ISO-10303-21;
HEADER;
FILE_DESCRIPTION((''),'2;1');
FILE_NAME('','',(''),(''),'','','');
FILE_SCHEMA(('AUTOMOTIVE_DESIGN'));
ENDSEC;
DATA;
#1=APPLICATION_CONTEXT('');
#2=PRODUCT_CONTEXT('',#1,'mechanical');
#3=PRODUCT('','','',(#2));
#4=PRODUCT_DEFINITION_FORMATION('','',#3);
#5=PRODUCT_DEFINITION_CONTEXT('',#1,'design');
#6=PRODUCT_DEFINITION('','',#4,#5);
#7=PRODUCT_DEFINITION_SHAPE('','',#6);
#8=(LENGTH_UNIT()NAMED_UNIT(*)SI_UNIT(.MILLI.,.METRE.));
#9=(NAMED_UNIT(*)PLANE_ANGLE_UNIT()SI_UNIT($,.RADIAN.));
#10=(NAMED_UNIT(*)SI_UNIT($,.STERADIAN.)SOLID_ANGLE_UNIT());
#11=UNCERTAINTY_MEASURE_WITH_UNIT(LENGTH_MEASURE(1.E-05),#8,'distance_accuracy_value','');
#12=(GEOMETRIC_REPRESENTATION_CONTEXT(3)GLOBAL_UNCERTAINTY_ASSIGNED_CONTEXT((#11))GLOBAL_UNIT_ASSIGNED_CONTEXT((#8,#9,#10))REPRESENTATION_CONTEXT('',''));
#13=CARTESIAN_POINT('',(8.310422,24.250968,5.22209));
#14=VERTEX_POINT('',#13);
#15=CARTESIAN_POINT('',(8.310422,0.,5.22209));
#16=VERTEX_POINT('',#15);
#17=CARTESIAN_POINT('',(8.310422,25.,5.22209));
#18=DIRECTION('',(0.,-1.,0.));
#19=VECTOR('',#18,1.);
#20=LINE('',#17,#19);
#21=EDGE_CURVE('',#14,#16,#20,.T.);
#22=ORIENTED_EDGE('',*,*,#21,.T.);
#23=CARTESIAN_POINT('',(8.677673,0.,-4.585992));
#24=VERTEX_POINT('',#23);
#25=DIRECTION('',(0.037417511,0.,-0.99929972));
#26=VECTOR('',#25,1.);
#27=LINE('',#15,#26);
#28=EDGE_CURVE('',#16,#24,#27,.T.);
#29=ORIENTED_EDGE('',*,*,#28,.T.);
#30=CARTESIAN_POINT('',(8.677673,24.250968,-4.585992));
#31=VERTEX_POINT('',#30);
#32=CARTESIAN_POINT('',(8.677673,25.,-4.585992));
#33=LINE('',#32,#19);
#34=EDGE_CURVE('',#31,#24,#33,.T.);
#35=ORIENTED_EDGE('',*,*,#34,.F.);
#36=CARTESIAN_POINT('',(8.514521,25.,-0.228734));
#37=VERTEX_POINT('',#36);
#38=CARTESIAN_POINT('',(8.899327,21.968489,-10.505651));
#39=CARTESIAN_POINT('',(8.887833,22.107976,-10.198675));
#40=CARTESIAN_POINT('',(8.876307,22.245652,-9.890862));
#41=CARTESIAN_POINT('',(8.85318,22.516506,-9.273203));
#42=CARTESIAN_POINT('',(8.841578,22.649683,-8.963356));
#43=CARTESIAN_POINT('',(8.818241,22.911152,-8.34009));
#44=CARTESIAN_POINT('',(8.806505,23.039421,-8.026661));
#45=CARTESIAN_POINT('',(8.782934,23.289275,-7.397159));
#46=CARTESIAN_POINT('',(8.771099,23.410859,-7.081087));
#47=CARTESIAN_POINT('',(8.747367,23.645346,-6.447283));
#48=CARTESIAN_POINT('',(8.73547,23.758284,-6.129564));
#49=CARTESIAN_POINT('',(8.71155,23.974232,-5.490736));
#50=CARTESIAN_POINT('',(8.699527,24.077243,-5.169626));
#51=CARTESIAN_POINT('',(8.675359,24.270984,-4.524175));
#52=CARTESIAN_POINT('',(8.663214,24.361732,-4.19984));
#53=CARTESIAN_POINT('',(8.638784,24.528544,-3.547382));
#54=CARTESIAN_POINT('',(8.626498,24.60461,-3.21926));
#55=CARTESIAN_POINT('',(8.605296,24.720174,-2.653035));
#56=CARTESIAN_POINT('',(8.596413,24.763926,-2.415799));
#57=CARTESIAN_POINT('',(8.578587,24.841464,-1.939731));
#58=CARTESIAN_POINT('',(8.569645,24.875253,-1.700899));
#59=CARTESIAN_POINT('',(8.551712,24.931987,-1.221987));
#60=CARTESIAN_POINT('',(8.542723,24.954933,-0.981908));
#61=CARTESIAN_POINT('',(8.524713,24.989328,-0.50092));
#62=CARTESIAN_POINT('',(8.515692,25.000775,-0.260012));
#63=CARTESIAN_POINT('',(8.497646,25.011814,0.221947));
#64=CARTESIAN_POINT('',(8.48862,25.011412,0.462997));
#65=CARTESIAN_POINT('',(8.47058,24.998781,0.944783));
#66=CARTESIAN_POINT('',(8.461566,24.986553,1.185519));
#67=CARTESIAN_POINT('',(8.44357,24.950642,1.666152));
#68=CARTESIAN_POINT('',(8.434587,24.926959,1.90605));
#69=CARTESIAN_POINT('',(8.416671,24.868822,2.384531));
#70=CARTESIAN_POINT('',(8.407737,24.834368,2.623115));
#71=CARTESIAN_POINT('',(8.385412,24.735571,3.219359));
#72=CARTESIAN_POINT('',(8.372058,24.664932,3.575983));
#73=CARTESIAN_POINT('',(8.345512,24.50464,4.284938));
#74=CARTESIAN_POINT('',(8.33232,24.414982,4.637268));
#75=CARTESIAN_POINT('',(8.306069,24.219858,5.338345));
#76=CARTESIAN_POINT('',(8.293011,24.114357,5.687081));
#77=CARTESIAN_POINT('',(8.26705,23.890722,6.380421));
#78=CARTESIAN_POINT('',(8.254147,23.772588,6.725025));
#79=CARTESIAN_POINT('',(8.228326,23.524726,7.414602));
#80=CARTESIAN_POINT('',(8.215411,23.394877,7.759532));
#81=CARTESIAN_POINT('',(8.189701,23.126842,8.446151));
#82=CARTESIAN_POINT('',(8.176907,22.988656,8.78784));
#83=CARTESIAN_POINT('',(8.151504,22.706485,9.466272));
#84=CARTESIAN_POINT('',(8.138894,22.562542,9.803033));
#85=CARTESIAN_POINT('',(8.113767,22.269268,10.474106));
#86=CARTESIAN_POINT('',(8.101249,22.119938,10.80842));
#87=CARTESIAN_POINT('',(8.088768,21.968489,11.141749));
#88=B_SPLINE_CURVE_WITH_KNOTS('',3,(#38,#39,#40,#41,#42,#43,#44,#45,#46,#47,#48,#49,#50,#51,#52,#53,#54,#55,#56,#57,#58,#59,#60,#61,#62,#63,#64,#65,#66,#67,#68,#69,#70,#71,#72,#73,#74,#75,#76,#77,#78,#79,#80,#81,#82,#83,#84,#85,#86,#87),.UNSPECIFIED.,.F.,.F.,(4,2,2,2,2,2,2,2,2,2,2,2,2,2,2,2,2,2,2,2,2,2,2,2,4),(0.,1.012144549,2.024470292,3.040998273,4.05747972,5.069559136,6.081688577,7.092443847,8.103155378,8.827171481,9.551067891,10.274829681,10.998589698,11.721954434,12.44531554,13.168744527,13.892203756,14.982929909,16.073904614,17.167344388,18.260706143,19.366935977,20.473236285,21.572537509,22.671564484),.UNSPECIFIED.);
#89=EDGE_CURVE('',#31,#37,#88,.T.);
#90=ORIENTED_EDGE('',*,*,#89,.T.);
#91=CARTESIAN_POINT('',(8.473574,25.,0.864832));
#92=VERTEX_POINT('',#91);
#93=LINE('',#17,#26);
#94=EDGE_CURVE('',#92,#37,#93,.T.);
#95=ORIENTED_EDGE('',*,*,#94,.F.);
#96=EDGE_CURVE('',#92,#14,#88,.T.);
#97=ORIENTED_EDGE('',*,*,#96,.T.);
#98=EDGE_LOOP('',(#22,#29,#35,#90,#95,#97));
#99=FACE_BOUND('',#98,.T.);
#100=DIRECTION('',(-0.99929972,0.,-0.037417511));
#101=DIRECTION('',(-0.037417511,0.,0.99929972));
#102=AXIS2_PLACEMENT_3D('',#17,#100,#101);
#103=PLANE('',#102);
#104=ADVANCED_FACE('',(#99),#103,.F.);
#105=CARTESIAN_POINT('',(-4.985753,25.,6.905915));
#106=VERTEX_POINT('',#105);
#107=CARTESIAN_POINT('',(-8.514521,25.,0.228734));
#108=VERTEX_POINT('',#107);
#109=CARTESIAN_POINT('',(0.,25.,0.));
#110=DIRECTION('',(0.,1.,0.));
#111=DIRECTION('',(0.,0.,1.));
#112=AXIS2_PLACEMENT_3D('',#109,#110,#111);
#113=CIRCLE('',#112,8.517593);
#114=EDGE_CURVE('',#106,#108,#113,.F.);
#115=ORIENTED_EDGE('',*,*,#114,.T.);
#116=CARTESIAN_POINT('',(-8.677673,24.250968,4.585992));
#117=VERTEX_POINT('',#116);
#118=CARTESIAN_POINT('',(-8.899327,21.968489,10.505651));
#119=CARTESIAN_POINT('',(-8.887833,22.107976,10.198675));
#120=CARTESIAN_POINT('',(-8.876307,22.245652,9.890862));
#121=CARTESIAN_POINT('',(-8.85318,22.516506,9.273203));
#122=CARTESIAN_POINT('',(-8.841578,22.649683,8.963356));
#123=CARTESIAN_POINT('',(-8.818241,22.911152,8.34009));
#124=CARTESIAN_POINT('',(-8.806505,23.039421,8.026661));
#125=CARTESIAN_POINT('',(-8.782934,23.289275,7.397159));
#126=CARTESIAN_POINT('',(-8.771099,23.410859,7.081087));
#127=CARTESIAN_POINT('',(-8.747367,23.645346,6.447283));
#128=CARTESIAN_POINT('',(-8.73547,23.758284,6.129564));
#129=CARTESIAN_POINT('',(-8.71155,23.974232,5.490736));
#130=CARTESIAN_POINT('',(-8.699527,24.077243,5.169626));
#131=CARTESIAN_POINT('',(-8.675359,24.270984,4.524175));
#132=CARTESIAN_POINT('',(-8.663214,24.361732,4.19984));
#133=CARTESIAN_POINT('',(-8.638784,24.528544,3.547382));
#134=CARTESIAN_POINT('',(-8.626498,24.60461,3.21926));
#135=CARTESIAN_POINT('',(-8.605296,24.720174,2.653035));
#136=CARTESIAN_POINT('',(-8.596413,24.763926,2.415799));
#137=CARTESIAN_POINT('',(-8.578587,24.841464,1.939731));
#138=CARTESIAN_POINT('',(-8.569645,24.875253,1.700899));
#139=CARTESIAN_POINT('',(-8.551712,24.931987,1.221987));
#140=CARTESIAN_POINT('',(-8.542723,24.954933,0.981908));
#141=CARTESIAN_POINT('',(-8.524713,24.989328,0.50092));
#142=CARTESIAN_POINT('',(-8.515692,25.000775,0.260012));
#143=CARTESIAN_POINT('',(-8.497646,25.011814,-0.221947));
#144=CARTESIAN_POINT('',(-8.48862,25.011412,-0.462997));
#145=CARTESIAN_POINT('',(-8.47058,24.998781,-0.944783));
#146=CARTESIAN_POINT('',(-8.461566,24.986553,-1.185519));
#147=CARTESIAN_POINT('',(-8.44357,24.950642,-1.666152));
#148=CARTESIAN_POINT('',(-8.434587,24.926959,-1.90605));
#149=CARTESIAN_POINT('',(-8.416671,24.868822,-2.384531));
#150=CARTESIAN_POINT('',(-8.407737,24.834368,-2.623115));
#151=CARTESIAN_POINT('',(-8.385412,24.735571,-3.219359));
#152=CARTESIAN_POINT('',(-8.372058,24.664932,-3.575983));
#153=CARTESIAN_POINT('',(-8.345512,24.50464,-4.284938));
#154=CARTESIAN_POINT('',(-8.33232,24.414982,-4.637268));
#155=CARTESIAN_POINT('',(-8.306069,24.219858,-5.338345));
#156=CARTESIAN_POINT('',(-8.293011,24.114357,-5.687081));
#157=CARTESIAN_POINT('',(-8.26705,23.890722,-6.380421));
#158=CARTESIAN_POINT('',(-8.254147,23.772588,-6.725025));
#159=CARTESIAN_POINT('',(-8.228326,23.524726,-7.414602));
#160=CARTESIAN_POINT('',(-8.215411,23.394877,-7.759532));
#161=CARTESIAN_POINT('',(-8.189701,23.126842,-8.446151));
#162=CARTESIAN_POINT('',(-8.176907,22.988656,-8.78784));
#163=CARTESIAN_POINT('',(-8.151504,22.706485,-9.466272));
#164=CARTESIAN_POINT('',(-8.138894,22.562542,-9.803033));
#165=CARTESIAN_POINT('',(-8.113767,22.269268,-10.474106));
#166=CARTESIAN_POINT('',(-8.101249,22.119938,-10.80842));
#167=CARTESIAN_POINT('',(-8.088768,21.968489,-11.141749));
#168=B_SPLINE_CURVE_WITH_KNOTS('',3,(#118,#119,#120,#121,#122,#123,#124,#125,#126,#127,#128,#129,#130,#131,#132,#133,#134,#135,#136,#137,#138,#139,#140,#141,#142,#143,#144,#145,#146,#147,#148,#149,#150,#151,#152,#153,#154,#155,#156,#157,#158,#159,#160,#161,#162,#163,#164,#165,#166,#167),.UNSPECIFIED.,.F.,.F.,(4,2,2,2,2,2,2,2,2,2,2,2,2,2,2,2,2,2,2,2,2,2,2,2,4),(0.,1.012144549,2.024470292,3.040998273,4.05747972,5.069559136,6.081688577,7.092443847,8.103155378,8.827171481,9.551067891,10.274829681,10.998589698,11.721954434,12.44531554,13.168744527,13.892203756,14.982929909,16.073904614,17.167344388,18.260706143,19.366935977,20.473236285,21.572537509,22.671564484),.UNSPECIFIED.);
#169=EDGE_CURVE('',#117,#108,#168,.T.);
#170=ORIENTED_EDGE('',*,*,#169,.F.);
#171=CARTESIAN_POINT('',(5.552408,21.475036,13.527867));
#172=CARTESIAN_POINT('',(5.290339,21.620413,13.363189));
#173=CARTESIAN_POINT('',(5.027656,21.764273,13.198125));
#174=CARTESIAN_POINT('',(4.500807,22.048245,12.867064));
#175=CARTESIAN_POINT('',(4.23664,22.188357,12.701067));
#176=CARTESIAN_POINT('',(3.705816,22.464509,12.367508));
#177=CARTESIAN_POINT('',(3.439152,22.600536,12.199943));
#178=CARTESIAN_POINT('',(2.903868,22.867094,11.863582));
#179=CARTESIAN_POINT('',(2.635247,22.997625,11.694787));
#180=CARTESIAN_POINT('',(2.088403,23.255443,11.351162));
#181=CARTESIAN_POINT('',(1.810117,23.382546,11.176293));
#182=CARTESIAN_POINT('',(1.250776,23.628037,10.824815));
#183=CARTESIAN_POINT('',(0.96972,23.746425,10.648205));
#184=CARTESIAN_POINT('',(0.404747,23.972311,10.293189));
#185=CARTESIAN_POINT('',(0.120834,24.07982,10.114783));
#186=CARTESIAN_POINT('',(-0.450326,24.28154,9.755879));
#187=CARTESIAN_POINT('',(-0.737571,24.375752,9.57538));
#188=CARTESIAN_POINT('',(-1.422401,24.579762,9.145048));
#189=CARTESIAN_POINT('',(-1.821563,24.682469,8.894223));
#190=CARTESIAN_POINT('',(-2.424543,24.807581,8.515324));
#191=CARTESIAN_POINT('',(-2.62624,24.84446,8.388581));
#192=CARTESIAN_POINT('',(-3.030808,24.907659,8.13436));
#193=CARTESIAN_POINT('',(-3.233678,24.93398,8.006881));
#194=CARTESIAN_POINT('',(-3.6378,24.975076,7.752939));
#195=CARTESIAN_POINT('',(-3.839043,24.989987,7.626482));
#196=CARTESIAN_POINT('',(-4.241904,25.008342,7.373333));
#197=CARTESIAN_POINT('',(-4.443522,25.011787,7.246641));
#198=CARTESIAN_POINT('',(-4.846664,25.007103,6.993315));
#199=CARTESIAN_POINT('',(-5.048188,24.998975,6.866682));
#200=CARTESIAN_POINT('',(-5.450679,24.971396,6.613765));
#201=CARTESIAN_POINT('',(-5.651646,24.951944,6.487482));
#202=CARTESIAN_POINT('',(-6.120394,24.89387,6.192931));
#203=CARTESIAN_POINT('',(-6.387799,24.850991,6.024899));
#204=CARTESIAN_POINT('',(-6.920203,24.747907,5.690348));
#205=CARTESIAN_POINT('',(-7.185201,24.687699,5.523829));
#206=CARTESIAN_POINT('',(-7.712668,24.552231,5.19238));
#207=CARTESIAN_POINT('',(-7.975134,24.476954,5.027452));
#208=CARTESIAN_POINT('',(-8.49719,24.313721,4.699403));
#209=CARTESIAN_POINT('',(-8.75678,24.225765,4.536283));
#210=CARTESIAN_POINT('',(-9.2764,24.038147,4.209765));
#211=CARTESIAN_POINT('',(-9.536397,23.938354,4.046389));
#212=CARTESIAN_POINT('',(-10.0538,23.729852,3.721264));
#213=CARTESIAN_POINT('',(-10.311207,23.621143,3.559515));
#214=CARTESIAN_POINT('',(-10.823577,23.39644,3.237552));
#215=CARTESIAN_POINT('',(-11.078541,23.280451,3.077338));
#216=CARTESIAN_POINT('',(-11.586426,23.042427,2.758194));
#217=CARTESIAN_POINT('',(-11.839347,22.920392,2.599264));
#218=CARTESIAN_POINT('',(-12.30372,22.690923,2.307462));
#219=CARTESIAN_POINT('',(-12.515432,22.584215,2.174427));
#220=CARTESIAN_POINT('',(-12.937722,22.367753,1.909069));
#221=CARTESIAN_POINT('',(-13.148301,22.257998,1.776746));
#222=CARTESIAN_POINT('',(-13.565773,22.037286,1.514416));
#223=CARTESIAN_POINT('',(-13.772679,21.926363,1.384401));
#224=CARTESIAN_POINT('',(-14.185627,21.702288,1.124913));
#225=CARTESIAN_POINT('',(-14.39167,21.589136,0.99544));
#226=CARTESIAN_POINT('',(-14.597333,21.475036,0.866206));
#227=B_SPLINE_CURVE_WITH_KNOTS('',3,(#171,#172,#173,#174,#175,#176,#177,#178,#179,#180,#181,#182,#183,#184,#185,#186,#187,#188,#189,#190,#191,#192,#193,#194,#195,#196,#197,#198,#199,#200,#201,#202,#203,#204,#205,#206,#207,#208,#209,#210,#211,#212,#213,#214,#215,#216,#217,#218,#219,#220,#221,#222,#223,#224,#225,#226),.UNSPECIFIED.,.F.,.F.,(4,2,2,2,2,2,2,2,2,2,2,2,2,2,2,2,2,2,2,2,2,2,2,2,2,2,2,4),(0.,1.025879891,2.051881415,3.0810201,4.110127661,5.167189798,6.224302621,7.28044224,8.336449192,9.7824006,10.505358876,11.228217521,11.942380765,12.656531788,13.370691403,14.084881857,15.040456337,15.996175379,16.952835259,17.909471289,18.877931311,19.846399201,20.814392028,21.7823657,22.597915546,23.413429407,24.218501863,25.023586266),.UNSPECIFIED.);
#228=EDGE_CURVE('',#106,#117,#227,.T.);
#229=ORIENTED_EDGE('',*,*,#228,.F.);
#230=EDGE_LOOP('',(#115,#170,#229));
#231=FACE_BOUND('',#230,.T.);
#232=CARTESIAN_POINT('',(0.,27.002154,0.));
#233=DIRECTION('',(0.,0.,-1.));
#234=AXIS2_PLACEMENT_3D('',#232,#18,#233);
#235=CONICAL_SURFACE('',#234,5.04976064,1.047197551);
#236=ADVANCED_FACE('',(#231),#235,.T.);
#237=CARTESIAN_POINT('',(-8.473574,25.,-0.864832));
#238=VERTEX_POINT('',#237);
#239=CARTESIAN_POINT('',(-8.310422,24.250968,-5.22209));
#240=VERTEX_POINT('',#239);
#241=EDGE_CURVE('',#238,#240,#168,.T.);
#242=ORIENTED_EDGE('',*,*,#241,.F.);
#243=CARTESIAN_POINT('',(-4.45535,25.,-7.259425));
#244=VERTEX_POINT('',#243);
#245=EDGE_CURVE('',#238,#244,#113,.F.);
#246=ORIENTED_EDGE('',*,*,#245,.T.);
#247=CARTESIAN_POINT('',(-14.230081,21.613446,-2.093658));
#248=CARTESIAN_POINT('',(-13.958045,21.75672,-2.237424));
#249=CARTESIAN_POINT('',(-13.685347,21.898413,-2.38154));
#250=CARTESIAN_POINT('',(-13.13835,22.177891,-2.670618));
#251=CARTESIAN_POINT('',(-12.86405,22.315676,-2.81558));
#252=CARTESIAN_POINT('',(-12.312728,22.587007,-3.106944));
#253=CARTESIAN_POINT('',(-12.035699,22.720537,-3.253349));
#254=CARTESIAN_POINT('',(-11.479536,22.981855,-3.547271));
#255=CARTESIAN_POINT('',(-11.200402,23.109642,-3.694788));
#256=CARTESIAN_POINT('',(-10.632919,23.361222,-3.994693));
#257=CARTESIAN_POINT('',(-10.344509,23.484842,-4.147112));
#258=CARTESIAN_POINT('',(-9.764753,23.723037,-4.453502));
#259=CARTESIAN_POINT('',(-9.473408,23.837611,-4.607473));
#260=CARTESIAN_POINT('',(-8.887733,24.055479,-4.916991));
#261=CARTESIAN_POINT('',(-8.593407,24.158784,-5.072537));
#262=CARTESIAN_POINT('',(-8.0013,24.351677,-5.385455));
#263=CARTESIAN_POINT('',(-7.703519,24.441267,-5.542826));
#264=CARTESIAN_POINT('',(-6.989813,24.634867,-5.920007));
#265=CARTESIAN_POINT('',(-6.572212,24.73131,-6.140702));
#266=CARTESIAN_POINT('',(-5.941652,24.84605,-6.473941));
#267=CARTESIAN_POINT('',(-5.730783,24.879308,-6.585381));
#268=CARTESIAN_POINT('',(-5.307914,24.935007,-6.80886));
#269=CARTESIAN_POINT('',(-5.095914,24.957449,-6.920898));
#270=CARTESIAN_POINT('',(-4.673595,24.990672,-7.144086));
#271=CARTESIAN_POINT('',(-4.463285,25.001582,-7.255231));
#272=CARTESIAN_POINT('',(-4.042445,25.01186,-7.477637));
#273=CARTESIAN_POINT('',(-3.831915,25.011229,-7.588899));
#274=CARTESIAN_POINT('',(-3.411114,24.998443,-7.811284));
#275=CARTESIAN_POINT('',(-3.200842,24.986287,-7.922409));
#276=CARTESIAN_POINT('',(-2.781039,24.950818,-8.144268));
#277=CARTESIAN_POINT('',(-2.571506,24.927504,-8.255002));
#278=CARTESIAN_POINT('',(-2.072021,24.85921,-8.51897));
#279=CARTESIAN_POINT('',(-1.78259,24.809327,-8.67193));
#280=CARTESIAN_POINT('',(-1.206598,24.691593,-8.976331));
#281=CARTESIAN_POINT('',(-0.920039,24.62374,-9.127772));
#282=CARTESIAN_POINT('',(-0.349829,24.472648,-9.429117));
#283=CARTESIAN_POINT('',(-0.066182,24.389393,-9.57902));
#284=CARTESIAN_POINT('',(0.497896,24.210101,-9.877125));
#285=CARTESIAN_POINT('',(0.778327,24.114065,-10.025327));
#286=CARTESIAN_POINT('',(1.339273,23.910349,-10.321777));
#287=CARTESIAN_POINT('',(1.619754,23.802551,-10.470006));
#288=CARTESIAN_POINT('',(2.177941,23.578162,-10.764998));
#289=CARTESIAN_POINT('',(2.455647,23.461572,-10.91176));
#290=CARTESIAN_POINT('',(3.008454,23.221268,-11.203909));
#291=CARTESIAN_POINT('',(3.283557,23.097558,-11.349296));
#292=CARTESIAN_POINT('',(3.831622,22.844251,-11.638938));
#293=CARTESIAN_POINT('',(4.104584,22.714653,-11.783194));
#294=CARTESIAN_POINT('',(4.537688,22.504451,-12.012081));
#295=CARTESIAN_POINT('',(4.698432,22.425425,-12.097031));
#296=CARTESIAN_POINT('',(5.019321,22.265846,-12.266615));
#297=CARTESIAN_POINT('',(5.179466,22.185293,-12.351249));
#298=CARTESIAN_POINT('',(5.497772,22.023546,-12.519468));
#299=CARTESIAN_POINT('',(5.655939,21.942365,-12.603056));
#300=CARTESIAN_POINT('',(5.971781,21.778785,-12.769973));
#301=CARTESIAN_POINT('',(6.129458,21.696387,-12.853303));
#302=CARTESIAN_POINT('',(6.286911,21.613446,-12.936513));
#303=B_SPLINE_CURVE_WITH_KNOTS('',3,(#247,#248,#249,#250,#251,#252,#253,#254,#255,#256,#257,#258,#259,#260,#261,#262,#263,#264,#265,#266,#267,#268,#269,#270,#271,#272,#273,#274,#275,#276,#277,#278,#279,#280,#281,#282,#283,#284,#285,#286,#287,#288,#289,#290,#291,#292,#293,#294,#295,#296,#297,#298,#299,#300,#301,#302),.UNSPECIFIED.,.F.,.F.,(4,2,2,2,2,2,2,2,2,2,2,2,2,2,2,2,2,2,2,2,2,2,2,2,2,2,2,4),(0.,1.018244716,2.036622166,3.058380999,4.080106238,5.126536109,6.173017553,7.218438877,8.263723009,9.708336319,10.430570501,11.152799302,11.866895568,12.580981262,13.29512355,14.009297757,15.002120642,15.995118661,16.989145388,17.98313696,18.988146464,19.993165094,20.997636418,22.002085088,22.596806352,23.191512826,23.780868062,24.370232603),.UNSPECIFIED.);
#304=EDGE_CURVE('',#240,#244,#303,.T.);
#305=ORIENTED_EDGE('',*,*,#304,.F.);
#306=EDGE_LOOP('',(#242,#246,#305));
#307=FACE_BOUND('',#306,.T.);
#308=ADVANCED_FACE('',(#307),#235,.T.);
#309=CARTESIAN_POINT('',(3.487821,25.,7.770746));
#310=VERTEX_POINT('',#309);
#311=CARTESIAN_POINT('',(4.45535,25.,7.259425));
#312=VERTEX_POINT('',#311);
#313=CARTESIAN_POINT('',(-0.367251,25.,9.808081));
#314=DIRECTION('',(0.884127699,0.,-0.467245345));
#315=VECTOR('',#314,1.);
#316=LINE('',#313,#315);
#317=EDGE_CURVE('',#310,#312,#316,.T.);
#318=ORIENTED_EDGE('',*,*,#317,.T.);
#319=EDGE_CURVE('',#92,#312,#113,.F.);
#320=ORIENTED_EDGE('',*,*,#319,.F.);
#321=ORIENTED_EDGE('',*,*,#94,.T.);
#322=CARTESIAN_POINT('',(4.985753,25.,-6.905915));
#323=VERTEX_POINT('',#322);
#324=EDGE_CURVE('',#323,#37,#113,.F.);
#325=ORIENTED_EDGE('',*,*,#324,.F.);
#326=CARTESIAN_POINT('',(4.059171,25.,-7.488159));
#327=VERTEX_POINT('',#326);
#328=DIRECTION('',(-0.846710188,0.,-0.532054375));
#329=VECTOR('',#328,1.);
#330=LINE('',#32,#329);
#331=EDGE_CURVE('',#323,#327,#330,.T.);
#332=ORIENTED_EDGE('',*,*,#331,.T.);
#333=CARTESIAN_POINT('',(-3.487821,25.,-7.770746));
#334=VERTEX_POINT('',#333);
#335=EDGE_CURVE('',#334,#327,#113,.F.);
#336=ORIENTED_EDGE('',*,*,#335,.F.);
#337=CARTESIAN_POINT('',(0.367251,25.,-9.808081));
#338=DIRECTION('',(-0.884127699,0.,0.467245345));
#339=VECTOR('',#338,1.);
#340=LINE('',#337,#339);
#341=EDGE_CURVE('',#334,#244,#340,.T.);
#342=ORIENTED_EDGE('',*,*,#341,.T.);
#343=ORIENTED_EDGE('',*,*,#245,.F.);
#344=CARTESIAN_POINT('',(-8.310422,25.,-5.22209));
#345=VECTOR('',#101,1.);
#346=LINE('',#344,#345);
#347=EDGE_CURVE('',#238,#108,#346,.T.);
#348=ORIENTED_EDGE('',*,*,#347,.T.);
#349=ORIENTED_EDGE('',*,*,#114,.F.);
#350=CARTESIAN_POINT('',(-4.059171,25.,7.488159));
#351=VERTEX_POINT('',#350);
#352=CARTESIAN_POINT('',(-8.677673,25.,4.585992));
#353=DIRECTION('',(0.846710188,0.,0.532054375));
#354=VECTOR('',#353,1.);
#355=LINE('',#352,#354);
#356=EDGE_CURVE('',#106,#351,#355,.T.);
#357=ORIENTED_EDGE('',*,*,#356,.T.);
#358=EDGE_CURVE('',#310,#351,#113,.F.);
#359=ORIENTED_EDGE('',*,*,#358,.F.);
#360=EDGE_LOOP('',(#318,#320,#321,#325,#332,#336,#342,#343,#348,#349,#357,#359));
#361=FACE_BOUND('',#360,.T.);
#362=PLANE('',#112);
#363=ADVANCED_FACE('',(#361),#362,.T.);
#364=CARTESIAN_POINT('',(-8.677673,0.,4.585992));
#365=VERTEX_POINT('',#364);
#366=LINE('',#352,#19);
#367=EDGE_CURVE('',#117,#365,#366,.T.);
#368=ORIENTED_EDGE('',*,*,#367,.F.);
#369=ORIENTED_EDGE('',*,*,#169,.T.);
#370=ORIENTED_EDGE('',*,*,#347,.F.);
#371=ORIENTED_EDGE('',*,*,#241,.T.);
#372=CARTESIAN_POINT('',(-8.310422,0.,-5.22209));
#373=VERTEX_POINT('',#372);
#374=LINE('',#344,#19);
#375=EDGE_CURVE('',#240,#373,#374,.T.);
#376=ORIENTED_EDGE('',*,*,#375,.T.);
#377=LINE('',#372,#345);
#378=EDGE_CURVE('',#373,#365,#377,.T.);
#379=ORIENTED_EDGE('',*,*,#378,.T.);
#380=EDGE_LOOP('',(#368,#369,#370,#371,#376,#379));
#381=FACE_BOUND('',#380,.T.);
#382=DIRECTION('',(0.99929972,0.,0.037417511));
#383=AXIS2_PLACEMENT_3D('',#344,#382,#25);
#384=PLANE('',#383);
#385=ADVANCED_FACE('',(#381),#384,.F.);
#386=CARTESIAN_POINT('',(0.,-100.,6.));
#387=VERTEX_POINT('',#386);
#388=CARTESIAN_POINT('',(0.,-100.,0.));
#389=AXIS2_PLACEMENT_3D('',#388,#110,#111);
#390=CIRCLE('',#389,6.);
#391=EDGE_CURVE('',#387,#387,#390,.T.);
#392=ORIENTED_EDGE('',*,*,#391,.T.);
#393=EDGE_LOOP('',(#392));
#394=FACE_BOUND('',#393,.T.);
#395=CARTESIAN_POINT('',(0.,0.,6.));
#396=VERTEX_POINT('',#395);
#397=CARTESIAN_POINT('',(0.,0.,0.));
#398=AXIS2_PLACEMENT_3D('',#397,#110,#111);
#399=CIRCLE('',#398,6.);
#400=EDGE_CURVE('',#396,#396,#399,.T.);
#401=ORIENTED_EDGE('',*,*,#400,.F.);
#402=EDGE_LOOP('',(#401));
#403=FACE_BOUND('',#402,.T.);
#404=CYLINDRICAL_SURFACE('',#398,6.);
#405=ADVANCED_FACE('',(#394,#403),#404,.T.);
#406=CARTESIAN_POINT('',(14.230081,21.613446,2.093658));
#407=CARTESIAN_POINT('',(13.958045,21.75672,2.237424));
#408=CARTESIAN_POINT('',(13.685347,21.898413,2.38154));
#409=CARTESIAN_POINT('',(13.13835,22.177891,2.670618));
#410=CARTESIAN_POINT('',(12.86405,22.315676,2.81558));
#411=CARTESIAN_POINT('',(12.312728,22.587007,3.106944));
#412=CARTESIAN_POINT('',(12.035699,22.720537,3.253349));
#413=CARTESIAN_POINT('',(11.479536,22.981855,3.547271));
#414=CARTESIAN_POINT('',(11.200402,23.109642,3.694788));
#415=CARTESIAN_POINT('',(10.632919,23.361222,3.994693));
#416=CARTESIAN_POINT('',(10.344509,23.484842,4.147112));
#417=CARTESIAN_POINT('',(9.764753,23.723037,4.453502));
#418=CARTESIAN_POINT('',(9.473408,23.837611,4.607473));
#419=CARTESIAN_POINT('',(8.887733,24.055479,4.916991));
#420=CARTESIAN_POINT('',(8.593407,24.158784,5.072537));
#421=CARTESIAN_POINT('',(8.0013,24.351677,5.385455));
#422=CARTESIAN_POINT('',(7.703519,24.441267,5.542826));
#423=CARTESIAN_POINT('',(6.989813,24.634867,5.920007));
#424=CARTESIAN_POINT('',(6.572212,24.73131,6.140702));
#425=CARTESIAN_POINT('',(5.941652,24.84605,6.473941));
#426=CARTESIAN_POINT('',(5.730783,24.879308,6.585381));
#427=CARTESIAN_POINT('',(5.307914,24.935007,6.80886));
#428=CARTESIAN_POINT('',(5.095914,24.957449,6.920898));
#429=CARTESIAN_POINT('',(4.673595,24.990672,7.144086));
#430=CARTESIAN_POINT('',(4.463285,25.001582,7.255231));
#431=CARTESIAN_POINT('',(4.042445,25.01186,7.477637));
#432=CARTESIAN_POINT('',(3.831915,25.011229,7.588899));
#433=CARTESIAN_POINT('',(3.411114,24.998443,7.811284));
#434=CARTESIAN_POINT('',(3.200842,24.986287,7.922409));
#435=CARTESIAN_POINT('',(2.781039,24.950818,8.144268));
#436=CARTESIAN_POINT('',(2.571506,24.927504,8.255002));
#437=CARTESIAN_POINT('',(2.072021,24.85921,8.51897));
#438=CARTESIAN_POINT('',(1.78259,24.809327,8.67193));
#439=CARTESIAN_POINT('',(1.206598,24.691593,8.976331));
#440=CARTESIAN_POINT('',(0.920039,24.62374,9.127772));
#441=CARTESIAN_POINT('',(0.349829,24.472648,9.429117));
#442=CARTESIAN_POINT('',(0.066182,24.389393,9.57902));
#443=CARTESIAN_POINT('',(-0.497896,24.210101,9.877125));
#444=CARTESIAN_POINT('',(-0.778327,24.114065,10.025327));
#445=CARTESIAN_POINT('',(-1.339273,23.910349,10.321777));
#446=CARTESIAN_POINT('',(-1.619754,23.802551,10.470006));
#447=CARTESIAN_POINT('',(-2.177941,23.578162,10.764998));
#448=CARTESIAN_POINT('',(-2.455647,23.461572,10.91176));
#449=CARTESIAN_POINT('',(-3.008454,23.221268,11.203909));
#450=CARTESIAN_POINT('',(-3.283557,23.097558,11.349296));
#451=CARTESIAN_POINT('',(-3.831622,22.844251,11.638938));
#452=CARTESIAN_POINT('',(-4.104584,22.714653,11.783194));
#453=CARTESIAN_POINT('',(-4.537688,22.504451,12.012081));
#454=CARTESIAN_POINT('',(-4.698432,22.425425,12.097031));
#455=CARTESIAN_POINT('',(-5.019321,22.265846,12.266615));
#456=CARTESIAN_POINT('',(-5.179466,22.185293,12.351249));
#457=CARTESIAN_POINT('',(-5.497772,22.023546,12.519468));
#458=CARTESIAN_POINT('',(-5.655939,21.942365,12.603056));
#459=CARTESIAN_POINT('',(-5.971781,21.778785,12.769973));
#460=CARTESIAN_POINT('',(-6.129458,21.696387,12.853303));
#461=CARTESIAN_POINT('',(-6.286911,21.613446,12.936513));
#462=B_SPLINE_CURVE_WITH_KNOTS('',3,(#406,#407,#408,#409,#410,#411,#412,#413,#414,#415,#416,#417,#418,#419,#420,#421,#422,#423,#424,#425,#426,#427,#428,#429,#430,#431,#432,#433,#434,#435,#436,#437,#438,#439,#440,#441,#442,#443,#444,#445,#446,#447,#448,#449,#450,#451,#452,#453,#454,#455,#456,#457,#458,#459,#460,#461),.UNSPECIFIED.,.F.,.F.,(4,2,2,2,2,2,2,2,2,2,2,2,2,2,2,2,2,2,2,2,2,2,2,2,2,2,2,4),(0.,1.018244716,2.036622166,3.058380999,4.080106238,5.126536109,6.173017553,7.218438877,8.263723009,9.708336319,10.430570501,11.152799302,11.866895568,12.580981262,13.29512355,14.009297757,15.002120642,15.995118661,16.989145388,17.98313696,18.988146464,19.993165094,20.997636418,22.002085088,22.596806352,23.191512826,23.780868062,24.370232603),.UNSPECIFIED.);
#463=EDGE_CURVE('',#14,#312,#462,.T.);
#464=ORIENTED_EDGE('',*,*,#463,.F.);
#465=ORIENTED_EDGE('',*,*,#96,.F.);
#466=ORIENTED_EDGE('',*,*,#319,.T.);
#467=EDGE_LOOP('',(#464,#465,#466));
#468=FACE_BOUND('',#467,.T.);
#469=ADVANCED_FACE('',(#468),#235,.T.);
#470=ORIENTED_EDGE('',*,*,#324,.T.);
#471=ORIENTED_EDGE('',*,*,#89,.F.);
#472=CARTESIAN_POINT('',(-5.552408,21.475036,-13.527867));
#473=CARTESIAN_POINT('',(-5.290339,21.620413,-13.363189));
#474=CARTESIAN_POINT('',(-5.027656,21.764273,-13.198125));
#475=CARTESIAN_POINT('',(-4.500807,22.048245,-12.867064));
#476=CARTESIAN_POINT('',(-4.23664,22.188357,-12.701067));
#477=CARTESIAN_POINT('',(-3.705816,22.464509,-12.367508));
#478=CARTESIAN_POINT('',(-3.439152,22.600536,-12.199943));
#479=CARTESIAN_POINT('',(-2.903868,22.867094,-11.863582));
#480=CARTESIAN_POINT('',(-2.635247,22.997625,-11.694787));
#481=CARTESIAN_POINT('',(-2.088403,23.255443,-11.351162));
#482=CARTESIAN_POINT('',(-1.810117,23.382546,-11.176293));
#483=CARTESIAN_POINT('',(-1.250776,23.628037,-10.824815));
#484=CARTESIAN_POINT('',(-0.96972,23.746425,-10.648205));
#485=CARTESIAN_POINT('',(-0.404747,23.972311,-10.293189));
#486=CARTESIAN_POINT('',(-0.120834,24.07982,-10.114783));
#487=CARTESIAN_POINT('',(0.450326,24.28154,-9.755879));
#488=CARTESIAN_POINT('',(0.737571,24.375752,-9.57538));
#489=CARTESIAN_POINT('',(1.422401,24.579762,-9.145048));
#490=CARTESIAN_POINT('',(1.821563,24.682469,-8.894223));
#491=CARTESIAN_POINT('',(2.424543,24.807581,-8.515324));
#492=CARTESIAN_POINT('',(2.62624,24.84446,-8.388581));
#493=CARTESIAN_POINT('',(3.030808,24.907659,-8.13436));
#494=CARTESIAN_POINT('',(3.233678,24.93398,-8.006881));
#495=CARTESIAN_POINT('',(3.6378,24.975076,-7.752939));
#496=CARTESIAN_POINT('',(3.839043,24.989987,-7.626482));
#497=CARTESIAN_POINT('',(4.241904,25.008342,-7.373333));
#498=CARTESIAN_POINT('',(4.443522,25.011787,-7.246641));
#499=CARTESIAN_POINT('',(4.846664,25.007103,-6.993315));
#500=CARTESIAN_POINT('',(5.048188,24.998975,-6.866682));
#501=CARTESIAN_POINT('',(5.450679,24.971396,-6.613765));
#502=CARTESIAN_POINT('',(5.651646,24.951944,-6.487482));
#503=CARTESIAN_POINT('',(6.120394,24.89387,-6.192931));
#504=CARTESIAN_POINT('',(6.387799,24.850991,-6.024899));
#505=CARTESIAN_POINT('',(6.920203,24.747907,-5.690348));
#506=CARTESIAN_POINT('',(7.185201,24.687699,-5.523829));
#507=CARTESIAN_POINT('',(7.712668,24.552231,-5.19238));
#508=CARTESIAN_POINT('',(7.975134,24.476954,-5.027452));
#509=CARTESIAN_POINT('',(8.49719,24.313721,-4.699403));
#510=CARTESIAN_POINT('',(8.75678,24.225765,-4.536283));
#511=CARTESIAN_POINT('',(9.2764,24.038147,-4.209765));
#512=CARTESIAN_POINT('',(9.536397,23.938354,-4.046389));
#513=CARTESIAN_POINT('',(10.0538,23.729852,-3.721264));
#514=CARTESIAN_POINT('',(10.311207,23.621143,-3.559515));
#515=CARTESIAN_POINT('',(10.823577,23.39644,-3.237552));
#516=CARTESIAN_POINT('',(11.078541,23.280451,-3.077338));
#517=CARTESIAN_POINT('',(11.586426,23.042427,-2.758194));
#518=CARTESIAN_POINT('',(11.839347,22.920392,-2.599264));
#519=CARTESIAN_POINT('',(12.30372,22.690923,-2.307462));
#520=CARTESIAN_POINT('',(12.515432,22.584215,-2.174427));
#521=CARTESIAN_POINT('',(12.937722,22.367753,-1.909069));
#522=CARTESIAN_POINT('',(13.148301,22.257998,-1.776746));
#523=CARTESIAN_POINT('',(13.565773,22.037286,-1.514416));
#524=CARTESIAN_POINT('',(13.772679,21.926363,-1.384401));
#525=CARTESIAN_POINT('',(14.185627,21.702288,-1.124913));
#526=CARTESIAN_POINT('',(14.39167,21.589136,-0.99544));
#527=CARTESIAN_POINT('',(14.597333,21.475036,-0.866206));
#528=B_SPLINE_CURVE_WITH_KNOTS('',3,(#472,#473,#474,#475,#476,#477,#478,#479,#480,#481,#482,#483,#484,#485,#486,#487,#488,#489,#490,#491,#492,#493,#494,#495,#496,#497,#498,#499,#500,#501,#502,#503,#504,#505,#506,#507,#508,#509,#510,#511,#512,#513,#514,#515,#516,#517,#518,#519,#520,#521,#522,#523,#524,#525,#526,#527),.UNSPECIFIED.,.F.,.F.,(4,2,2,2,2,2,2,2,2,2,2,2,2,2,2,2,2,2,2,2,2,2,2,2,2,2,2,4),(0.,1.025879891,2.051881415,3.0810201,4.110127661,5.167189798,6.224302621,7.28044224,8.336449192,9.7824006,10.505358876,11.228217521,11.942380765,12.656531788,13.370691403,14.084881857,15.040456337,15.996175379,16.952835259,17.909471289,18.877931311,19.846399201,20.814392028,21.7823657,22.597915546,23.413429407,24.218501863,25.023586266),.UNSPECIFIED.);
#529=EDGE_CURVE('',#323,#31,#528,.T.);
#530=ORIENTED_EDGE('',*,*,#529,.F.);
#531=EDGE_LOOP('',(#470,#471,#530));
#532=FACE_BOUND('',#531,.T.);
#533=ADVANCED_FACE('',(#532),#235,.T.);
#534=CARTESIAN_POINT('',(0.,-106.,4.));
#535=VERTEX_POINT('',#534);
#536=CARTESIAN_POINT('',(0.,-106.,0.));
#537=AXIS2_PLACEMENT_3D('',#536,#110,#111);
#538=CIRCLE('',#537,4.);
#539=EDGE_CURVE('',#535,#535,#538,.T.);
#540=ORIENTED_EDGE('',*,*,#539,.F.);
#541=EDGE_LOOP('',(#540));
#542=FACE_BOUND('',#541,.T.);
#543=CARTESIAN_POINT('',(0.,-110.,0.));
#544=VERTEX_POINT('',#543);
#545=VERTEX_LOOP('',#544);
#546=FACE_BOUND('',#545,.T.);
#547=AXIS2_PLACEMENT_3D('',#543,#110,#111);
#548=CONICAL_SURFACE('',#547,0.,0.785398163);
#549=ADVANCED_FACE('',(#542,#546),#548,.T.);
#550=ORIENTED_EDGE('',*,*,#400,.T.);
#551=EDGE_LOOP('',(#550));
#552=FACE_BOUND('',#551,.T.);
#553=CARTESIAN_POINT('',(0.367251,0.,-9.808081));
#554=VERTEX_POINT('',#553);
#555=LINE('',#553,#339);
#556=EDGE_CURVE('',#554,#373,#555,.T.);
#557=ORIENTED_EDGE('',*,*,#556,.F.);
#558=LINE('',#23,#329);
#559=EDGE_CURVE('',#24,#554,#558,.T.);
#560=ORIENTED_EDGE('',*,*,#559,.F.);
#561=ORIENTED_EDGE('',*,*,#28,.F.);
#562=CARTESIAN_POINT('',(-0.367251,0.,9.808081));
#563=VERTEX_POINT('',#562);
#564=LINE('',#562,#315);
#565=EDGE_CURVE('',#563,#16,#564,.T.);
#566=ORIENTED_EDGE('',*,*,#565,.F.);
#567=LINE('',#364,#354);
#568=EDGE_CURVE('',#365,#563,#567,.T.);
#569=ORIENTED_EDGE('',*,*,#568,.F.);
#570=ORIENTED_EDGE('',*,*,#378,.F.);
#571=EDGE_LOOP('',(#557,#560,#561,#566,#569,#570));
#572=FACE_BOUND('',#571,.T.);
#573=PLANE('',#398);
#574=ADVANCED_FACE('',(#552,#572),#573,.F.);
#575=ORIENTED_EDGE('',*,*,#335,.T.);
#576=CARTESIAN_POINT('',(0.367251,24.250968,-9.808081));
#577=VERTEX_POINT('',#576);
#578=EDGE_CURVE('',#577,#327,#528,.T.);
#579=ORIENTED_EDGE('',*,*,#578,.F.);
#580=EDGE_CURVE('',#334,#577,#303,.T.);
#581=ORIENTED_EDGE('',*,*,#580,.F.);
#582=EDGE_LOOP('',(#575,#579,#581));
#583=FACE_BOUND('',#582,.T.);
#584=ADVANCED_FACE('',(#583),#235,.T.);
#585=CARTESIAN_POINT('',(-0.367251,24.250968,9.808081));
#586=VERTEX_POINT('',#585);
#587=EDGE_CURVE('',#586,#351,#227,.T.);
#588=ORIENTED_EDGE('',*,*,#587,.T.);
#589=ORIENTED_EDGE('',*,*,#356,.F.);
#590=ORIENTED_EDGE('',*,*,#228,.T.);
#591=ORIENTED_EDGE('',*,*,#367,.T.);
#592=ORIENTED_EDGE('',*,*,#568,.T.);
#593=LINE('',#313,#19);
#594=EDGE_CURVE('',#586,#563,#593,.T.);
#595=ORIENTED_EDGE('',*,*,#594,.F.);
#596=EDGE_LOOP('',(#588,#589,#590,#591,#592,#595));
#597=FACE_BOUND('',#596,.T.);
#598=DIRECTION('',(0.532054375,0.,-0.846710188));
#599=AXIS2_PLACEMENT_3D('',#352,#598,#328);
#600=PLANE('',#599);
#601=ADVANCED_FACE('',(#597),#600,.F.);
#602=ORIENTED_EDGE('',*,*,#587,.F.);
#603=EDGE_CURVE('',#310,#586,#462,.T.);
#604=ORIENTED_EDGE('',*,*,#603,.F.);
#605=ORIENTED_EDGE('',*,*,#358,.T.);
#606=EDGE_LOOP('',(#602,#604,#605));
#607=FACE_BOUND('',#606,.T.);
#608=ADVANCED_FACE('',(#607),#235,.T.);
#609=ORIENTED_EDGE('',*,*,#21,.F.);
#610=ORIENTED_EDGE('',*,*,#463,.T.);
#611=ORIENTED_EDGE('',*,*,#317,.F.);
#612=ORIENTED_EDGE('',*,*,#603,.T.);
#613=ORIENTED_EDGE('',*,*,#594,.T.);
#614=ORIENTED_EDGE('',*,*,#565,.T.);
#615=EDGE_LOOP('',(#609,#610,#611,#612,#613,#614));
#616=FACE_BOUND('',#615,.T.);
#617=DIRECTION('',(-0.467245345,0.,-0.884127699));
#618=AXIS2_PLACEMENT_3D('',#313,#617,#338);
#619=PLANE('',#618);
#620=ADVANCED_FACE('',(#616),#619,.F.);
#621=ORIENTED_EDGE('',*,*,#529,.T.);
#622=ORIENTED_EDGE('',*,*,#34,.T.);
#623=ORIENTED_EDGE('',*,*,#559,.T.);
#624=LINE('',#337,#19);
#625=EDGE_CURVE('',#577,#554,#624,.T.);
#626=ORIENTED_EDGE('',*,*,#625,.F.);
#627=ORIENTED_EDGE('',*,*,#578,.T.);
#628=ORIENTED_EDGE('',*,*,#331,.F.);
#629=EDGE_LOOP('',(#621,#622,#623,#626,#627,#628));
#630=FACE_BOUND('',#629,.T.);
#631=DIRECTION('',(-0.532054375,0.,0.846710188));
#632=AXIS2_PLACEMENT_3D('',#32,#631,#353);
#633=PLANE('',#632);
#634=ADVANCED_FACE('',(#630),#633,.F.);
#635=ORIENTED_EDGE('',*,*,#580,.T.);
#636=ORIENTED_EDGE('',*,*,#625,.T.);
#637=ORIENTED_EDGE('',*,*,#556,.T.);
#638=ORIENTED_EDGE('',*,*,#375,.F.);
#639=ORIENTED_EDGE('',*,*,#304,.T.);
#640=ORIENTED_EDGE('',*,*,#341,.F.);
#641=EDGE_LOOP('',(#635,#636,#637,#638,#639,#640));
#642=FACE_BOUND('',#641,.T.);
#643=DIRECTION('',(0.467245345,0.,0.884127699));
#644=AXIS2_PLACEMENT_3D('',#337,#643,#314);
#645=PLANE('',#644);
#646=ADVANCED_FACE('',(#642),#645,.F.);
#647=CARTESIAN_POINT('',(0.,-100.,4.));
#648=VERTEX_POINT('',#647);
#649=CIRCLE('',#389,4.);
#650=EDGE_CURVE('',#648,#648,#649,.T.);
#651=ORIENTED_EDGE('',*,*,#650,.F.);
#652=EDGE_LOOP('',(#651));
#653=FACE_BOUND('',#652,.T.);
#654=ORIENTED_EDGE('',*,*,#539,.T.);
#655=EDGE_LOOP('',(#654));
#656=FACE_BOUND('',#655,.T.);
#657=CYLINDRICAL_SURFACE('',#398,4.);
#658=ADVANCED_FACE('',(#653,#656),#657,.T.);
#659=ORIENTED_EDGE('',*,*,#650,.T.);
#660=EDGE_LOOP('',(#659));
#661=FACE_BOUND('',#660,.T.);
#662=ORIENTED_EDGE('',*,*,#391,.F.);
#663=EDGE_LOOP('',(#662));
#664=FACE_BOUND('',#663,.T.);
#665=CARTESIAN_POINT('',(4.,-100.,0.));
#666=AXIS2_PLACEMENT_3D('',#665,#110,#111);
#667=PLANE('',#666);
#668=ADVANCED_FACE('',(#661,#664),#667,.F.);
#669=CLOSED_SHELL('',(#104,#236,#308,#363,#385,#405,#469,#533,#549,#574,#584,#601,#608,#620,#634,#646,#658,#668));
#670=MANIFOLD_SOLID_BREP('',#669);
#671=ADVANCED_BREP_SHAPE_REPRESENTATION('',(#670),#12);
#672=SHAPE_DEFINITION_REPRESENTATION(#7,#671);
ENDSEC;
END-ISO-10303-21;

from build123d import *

# Parameters (mm, degrees)
SALIENTE_EXTRUIR1_DEPTH = 25


with BuildPart() as part:
    # Croquis1 → Revolución3 (revolve)
    with BuildSketch(Plane.XY):
        Polygon((0, 0), (0, -110), (4, -106), (4, -100), (6, -100), (6, 0), align=None)
    revolve(axis=Axis((0, 0, 0), (0, -1, 0)))

    # Croquis2 → Saliente-Extruir1 (add)
    with BuildSketch(Plane(origin=(0, 0, 0), x_dir=(1, 0, 0), z_dir=(0, 1, 0))):
        Polygon((8.310422033, -5.222089521), (8.677673202, 4.585991836), (0.367251169, 9.808081357), (-8.310422033, 5.222089521), (-8.677673202, -4.585991836), (-0.367251169, -9.808081357), align=None)
    extrude(amount=SALIENTE_EXTRUIR1_DEPTH)

    # Croquis3 → Cortar-Revolución1 (revolve, cut)
    with BuildSketch(Plane(origin=(0, 0, 0), x_dir=(0, 0, -1), z_dir=(1, 0, 0))):
        Polygon((5.04976064, 27.002153948), (10.24964381, 27.002153948), (10.24964381, 24), align=None)
    revolve(axis=Axis((0, 0, 0), (0, 1, 0)), mode=Mode.SUBTRACT)


solid = part.part
